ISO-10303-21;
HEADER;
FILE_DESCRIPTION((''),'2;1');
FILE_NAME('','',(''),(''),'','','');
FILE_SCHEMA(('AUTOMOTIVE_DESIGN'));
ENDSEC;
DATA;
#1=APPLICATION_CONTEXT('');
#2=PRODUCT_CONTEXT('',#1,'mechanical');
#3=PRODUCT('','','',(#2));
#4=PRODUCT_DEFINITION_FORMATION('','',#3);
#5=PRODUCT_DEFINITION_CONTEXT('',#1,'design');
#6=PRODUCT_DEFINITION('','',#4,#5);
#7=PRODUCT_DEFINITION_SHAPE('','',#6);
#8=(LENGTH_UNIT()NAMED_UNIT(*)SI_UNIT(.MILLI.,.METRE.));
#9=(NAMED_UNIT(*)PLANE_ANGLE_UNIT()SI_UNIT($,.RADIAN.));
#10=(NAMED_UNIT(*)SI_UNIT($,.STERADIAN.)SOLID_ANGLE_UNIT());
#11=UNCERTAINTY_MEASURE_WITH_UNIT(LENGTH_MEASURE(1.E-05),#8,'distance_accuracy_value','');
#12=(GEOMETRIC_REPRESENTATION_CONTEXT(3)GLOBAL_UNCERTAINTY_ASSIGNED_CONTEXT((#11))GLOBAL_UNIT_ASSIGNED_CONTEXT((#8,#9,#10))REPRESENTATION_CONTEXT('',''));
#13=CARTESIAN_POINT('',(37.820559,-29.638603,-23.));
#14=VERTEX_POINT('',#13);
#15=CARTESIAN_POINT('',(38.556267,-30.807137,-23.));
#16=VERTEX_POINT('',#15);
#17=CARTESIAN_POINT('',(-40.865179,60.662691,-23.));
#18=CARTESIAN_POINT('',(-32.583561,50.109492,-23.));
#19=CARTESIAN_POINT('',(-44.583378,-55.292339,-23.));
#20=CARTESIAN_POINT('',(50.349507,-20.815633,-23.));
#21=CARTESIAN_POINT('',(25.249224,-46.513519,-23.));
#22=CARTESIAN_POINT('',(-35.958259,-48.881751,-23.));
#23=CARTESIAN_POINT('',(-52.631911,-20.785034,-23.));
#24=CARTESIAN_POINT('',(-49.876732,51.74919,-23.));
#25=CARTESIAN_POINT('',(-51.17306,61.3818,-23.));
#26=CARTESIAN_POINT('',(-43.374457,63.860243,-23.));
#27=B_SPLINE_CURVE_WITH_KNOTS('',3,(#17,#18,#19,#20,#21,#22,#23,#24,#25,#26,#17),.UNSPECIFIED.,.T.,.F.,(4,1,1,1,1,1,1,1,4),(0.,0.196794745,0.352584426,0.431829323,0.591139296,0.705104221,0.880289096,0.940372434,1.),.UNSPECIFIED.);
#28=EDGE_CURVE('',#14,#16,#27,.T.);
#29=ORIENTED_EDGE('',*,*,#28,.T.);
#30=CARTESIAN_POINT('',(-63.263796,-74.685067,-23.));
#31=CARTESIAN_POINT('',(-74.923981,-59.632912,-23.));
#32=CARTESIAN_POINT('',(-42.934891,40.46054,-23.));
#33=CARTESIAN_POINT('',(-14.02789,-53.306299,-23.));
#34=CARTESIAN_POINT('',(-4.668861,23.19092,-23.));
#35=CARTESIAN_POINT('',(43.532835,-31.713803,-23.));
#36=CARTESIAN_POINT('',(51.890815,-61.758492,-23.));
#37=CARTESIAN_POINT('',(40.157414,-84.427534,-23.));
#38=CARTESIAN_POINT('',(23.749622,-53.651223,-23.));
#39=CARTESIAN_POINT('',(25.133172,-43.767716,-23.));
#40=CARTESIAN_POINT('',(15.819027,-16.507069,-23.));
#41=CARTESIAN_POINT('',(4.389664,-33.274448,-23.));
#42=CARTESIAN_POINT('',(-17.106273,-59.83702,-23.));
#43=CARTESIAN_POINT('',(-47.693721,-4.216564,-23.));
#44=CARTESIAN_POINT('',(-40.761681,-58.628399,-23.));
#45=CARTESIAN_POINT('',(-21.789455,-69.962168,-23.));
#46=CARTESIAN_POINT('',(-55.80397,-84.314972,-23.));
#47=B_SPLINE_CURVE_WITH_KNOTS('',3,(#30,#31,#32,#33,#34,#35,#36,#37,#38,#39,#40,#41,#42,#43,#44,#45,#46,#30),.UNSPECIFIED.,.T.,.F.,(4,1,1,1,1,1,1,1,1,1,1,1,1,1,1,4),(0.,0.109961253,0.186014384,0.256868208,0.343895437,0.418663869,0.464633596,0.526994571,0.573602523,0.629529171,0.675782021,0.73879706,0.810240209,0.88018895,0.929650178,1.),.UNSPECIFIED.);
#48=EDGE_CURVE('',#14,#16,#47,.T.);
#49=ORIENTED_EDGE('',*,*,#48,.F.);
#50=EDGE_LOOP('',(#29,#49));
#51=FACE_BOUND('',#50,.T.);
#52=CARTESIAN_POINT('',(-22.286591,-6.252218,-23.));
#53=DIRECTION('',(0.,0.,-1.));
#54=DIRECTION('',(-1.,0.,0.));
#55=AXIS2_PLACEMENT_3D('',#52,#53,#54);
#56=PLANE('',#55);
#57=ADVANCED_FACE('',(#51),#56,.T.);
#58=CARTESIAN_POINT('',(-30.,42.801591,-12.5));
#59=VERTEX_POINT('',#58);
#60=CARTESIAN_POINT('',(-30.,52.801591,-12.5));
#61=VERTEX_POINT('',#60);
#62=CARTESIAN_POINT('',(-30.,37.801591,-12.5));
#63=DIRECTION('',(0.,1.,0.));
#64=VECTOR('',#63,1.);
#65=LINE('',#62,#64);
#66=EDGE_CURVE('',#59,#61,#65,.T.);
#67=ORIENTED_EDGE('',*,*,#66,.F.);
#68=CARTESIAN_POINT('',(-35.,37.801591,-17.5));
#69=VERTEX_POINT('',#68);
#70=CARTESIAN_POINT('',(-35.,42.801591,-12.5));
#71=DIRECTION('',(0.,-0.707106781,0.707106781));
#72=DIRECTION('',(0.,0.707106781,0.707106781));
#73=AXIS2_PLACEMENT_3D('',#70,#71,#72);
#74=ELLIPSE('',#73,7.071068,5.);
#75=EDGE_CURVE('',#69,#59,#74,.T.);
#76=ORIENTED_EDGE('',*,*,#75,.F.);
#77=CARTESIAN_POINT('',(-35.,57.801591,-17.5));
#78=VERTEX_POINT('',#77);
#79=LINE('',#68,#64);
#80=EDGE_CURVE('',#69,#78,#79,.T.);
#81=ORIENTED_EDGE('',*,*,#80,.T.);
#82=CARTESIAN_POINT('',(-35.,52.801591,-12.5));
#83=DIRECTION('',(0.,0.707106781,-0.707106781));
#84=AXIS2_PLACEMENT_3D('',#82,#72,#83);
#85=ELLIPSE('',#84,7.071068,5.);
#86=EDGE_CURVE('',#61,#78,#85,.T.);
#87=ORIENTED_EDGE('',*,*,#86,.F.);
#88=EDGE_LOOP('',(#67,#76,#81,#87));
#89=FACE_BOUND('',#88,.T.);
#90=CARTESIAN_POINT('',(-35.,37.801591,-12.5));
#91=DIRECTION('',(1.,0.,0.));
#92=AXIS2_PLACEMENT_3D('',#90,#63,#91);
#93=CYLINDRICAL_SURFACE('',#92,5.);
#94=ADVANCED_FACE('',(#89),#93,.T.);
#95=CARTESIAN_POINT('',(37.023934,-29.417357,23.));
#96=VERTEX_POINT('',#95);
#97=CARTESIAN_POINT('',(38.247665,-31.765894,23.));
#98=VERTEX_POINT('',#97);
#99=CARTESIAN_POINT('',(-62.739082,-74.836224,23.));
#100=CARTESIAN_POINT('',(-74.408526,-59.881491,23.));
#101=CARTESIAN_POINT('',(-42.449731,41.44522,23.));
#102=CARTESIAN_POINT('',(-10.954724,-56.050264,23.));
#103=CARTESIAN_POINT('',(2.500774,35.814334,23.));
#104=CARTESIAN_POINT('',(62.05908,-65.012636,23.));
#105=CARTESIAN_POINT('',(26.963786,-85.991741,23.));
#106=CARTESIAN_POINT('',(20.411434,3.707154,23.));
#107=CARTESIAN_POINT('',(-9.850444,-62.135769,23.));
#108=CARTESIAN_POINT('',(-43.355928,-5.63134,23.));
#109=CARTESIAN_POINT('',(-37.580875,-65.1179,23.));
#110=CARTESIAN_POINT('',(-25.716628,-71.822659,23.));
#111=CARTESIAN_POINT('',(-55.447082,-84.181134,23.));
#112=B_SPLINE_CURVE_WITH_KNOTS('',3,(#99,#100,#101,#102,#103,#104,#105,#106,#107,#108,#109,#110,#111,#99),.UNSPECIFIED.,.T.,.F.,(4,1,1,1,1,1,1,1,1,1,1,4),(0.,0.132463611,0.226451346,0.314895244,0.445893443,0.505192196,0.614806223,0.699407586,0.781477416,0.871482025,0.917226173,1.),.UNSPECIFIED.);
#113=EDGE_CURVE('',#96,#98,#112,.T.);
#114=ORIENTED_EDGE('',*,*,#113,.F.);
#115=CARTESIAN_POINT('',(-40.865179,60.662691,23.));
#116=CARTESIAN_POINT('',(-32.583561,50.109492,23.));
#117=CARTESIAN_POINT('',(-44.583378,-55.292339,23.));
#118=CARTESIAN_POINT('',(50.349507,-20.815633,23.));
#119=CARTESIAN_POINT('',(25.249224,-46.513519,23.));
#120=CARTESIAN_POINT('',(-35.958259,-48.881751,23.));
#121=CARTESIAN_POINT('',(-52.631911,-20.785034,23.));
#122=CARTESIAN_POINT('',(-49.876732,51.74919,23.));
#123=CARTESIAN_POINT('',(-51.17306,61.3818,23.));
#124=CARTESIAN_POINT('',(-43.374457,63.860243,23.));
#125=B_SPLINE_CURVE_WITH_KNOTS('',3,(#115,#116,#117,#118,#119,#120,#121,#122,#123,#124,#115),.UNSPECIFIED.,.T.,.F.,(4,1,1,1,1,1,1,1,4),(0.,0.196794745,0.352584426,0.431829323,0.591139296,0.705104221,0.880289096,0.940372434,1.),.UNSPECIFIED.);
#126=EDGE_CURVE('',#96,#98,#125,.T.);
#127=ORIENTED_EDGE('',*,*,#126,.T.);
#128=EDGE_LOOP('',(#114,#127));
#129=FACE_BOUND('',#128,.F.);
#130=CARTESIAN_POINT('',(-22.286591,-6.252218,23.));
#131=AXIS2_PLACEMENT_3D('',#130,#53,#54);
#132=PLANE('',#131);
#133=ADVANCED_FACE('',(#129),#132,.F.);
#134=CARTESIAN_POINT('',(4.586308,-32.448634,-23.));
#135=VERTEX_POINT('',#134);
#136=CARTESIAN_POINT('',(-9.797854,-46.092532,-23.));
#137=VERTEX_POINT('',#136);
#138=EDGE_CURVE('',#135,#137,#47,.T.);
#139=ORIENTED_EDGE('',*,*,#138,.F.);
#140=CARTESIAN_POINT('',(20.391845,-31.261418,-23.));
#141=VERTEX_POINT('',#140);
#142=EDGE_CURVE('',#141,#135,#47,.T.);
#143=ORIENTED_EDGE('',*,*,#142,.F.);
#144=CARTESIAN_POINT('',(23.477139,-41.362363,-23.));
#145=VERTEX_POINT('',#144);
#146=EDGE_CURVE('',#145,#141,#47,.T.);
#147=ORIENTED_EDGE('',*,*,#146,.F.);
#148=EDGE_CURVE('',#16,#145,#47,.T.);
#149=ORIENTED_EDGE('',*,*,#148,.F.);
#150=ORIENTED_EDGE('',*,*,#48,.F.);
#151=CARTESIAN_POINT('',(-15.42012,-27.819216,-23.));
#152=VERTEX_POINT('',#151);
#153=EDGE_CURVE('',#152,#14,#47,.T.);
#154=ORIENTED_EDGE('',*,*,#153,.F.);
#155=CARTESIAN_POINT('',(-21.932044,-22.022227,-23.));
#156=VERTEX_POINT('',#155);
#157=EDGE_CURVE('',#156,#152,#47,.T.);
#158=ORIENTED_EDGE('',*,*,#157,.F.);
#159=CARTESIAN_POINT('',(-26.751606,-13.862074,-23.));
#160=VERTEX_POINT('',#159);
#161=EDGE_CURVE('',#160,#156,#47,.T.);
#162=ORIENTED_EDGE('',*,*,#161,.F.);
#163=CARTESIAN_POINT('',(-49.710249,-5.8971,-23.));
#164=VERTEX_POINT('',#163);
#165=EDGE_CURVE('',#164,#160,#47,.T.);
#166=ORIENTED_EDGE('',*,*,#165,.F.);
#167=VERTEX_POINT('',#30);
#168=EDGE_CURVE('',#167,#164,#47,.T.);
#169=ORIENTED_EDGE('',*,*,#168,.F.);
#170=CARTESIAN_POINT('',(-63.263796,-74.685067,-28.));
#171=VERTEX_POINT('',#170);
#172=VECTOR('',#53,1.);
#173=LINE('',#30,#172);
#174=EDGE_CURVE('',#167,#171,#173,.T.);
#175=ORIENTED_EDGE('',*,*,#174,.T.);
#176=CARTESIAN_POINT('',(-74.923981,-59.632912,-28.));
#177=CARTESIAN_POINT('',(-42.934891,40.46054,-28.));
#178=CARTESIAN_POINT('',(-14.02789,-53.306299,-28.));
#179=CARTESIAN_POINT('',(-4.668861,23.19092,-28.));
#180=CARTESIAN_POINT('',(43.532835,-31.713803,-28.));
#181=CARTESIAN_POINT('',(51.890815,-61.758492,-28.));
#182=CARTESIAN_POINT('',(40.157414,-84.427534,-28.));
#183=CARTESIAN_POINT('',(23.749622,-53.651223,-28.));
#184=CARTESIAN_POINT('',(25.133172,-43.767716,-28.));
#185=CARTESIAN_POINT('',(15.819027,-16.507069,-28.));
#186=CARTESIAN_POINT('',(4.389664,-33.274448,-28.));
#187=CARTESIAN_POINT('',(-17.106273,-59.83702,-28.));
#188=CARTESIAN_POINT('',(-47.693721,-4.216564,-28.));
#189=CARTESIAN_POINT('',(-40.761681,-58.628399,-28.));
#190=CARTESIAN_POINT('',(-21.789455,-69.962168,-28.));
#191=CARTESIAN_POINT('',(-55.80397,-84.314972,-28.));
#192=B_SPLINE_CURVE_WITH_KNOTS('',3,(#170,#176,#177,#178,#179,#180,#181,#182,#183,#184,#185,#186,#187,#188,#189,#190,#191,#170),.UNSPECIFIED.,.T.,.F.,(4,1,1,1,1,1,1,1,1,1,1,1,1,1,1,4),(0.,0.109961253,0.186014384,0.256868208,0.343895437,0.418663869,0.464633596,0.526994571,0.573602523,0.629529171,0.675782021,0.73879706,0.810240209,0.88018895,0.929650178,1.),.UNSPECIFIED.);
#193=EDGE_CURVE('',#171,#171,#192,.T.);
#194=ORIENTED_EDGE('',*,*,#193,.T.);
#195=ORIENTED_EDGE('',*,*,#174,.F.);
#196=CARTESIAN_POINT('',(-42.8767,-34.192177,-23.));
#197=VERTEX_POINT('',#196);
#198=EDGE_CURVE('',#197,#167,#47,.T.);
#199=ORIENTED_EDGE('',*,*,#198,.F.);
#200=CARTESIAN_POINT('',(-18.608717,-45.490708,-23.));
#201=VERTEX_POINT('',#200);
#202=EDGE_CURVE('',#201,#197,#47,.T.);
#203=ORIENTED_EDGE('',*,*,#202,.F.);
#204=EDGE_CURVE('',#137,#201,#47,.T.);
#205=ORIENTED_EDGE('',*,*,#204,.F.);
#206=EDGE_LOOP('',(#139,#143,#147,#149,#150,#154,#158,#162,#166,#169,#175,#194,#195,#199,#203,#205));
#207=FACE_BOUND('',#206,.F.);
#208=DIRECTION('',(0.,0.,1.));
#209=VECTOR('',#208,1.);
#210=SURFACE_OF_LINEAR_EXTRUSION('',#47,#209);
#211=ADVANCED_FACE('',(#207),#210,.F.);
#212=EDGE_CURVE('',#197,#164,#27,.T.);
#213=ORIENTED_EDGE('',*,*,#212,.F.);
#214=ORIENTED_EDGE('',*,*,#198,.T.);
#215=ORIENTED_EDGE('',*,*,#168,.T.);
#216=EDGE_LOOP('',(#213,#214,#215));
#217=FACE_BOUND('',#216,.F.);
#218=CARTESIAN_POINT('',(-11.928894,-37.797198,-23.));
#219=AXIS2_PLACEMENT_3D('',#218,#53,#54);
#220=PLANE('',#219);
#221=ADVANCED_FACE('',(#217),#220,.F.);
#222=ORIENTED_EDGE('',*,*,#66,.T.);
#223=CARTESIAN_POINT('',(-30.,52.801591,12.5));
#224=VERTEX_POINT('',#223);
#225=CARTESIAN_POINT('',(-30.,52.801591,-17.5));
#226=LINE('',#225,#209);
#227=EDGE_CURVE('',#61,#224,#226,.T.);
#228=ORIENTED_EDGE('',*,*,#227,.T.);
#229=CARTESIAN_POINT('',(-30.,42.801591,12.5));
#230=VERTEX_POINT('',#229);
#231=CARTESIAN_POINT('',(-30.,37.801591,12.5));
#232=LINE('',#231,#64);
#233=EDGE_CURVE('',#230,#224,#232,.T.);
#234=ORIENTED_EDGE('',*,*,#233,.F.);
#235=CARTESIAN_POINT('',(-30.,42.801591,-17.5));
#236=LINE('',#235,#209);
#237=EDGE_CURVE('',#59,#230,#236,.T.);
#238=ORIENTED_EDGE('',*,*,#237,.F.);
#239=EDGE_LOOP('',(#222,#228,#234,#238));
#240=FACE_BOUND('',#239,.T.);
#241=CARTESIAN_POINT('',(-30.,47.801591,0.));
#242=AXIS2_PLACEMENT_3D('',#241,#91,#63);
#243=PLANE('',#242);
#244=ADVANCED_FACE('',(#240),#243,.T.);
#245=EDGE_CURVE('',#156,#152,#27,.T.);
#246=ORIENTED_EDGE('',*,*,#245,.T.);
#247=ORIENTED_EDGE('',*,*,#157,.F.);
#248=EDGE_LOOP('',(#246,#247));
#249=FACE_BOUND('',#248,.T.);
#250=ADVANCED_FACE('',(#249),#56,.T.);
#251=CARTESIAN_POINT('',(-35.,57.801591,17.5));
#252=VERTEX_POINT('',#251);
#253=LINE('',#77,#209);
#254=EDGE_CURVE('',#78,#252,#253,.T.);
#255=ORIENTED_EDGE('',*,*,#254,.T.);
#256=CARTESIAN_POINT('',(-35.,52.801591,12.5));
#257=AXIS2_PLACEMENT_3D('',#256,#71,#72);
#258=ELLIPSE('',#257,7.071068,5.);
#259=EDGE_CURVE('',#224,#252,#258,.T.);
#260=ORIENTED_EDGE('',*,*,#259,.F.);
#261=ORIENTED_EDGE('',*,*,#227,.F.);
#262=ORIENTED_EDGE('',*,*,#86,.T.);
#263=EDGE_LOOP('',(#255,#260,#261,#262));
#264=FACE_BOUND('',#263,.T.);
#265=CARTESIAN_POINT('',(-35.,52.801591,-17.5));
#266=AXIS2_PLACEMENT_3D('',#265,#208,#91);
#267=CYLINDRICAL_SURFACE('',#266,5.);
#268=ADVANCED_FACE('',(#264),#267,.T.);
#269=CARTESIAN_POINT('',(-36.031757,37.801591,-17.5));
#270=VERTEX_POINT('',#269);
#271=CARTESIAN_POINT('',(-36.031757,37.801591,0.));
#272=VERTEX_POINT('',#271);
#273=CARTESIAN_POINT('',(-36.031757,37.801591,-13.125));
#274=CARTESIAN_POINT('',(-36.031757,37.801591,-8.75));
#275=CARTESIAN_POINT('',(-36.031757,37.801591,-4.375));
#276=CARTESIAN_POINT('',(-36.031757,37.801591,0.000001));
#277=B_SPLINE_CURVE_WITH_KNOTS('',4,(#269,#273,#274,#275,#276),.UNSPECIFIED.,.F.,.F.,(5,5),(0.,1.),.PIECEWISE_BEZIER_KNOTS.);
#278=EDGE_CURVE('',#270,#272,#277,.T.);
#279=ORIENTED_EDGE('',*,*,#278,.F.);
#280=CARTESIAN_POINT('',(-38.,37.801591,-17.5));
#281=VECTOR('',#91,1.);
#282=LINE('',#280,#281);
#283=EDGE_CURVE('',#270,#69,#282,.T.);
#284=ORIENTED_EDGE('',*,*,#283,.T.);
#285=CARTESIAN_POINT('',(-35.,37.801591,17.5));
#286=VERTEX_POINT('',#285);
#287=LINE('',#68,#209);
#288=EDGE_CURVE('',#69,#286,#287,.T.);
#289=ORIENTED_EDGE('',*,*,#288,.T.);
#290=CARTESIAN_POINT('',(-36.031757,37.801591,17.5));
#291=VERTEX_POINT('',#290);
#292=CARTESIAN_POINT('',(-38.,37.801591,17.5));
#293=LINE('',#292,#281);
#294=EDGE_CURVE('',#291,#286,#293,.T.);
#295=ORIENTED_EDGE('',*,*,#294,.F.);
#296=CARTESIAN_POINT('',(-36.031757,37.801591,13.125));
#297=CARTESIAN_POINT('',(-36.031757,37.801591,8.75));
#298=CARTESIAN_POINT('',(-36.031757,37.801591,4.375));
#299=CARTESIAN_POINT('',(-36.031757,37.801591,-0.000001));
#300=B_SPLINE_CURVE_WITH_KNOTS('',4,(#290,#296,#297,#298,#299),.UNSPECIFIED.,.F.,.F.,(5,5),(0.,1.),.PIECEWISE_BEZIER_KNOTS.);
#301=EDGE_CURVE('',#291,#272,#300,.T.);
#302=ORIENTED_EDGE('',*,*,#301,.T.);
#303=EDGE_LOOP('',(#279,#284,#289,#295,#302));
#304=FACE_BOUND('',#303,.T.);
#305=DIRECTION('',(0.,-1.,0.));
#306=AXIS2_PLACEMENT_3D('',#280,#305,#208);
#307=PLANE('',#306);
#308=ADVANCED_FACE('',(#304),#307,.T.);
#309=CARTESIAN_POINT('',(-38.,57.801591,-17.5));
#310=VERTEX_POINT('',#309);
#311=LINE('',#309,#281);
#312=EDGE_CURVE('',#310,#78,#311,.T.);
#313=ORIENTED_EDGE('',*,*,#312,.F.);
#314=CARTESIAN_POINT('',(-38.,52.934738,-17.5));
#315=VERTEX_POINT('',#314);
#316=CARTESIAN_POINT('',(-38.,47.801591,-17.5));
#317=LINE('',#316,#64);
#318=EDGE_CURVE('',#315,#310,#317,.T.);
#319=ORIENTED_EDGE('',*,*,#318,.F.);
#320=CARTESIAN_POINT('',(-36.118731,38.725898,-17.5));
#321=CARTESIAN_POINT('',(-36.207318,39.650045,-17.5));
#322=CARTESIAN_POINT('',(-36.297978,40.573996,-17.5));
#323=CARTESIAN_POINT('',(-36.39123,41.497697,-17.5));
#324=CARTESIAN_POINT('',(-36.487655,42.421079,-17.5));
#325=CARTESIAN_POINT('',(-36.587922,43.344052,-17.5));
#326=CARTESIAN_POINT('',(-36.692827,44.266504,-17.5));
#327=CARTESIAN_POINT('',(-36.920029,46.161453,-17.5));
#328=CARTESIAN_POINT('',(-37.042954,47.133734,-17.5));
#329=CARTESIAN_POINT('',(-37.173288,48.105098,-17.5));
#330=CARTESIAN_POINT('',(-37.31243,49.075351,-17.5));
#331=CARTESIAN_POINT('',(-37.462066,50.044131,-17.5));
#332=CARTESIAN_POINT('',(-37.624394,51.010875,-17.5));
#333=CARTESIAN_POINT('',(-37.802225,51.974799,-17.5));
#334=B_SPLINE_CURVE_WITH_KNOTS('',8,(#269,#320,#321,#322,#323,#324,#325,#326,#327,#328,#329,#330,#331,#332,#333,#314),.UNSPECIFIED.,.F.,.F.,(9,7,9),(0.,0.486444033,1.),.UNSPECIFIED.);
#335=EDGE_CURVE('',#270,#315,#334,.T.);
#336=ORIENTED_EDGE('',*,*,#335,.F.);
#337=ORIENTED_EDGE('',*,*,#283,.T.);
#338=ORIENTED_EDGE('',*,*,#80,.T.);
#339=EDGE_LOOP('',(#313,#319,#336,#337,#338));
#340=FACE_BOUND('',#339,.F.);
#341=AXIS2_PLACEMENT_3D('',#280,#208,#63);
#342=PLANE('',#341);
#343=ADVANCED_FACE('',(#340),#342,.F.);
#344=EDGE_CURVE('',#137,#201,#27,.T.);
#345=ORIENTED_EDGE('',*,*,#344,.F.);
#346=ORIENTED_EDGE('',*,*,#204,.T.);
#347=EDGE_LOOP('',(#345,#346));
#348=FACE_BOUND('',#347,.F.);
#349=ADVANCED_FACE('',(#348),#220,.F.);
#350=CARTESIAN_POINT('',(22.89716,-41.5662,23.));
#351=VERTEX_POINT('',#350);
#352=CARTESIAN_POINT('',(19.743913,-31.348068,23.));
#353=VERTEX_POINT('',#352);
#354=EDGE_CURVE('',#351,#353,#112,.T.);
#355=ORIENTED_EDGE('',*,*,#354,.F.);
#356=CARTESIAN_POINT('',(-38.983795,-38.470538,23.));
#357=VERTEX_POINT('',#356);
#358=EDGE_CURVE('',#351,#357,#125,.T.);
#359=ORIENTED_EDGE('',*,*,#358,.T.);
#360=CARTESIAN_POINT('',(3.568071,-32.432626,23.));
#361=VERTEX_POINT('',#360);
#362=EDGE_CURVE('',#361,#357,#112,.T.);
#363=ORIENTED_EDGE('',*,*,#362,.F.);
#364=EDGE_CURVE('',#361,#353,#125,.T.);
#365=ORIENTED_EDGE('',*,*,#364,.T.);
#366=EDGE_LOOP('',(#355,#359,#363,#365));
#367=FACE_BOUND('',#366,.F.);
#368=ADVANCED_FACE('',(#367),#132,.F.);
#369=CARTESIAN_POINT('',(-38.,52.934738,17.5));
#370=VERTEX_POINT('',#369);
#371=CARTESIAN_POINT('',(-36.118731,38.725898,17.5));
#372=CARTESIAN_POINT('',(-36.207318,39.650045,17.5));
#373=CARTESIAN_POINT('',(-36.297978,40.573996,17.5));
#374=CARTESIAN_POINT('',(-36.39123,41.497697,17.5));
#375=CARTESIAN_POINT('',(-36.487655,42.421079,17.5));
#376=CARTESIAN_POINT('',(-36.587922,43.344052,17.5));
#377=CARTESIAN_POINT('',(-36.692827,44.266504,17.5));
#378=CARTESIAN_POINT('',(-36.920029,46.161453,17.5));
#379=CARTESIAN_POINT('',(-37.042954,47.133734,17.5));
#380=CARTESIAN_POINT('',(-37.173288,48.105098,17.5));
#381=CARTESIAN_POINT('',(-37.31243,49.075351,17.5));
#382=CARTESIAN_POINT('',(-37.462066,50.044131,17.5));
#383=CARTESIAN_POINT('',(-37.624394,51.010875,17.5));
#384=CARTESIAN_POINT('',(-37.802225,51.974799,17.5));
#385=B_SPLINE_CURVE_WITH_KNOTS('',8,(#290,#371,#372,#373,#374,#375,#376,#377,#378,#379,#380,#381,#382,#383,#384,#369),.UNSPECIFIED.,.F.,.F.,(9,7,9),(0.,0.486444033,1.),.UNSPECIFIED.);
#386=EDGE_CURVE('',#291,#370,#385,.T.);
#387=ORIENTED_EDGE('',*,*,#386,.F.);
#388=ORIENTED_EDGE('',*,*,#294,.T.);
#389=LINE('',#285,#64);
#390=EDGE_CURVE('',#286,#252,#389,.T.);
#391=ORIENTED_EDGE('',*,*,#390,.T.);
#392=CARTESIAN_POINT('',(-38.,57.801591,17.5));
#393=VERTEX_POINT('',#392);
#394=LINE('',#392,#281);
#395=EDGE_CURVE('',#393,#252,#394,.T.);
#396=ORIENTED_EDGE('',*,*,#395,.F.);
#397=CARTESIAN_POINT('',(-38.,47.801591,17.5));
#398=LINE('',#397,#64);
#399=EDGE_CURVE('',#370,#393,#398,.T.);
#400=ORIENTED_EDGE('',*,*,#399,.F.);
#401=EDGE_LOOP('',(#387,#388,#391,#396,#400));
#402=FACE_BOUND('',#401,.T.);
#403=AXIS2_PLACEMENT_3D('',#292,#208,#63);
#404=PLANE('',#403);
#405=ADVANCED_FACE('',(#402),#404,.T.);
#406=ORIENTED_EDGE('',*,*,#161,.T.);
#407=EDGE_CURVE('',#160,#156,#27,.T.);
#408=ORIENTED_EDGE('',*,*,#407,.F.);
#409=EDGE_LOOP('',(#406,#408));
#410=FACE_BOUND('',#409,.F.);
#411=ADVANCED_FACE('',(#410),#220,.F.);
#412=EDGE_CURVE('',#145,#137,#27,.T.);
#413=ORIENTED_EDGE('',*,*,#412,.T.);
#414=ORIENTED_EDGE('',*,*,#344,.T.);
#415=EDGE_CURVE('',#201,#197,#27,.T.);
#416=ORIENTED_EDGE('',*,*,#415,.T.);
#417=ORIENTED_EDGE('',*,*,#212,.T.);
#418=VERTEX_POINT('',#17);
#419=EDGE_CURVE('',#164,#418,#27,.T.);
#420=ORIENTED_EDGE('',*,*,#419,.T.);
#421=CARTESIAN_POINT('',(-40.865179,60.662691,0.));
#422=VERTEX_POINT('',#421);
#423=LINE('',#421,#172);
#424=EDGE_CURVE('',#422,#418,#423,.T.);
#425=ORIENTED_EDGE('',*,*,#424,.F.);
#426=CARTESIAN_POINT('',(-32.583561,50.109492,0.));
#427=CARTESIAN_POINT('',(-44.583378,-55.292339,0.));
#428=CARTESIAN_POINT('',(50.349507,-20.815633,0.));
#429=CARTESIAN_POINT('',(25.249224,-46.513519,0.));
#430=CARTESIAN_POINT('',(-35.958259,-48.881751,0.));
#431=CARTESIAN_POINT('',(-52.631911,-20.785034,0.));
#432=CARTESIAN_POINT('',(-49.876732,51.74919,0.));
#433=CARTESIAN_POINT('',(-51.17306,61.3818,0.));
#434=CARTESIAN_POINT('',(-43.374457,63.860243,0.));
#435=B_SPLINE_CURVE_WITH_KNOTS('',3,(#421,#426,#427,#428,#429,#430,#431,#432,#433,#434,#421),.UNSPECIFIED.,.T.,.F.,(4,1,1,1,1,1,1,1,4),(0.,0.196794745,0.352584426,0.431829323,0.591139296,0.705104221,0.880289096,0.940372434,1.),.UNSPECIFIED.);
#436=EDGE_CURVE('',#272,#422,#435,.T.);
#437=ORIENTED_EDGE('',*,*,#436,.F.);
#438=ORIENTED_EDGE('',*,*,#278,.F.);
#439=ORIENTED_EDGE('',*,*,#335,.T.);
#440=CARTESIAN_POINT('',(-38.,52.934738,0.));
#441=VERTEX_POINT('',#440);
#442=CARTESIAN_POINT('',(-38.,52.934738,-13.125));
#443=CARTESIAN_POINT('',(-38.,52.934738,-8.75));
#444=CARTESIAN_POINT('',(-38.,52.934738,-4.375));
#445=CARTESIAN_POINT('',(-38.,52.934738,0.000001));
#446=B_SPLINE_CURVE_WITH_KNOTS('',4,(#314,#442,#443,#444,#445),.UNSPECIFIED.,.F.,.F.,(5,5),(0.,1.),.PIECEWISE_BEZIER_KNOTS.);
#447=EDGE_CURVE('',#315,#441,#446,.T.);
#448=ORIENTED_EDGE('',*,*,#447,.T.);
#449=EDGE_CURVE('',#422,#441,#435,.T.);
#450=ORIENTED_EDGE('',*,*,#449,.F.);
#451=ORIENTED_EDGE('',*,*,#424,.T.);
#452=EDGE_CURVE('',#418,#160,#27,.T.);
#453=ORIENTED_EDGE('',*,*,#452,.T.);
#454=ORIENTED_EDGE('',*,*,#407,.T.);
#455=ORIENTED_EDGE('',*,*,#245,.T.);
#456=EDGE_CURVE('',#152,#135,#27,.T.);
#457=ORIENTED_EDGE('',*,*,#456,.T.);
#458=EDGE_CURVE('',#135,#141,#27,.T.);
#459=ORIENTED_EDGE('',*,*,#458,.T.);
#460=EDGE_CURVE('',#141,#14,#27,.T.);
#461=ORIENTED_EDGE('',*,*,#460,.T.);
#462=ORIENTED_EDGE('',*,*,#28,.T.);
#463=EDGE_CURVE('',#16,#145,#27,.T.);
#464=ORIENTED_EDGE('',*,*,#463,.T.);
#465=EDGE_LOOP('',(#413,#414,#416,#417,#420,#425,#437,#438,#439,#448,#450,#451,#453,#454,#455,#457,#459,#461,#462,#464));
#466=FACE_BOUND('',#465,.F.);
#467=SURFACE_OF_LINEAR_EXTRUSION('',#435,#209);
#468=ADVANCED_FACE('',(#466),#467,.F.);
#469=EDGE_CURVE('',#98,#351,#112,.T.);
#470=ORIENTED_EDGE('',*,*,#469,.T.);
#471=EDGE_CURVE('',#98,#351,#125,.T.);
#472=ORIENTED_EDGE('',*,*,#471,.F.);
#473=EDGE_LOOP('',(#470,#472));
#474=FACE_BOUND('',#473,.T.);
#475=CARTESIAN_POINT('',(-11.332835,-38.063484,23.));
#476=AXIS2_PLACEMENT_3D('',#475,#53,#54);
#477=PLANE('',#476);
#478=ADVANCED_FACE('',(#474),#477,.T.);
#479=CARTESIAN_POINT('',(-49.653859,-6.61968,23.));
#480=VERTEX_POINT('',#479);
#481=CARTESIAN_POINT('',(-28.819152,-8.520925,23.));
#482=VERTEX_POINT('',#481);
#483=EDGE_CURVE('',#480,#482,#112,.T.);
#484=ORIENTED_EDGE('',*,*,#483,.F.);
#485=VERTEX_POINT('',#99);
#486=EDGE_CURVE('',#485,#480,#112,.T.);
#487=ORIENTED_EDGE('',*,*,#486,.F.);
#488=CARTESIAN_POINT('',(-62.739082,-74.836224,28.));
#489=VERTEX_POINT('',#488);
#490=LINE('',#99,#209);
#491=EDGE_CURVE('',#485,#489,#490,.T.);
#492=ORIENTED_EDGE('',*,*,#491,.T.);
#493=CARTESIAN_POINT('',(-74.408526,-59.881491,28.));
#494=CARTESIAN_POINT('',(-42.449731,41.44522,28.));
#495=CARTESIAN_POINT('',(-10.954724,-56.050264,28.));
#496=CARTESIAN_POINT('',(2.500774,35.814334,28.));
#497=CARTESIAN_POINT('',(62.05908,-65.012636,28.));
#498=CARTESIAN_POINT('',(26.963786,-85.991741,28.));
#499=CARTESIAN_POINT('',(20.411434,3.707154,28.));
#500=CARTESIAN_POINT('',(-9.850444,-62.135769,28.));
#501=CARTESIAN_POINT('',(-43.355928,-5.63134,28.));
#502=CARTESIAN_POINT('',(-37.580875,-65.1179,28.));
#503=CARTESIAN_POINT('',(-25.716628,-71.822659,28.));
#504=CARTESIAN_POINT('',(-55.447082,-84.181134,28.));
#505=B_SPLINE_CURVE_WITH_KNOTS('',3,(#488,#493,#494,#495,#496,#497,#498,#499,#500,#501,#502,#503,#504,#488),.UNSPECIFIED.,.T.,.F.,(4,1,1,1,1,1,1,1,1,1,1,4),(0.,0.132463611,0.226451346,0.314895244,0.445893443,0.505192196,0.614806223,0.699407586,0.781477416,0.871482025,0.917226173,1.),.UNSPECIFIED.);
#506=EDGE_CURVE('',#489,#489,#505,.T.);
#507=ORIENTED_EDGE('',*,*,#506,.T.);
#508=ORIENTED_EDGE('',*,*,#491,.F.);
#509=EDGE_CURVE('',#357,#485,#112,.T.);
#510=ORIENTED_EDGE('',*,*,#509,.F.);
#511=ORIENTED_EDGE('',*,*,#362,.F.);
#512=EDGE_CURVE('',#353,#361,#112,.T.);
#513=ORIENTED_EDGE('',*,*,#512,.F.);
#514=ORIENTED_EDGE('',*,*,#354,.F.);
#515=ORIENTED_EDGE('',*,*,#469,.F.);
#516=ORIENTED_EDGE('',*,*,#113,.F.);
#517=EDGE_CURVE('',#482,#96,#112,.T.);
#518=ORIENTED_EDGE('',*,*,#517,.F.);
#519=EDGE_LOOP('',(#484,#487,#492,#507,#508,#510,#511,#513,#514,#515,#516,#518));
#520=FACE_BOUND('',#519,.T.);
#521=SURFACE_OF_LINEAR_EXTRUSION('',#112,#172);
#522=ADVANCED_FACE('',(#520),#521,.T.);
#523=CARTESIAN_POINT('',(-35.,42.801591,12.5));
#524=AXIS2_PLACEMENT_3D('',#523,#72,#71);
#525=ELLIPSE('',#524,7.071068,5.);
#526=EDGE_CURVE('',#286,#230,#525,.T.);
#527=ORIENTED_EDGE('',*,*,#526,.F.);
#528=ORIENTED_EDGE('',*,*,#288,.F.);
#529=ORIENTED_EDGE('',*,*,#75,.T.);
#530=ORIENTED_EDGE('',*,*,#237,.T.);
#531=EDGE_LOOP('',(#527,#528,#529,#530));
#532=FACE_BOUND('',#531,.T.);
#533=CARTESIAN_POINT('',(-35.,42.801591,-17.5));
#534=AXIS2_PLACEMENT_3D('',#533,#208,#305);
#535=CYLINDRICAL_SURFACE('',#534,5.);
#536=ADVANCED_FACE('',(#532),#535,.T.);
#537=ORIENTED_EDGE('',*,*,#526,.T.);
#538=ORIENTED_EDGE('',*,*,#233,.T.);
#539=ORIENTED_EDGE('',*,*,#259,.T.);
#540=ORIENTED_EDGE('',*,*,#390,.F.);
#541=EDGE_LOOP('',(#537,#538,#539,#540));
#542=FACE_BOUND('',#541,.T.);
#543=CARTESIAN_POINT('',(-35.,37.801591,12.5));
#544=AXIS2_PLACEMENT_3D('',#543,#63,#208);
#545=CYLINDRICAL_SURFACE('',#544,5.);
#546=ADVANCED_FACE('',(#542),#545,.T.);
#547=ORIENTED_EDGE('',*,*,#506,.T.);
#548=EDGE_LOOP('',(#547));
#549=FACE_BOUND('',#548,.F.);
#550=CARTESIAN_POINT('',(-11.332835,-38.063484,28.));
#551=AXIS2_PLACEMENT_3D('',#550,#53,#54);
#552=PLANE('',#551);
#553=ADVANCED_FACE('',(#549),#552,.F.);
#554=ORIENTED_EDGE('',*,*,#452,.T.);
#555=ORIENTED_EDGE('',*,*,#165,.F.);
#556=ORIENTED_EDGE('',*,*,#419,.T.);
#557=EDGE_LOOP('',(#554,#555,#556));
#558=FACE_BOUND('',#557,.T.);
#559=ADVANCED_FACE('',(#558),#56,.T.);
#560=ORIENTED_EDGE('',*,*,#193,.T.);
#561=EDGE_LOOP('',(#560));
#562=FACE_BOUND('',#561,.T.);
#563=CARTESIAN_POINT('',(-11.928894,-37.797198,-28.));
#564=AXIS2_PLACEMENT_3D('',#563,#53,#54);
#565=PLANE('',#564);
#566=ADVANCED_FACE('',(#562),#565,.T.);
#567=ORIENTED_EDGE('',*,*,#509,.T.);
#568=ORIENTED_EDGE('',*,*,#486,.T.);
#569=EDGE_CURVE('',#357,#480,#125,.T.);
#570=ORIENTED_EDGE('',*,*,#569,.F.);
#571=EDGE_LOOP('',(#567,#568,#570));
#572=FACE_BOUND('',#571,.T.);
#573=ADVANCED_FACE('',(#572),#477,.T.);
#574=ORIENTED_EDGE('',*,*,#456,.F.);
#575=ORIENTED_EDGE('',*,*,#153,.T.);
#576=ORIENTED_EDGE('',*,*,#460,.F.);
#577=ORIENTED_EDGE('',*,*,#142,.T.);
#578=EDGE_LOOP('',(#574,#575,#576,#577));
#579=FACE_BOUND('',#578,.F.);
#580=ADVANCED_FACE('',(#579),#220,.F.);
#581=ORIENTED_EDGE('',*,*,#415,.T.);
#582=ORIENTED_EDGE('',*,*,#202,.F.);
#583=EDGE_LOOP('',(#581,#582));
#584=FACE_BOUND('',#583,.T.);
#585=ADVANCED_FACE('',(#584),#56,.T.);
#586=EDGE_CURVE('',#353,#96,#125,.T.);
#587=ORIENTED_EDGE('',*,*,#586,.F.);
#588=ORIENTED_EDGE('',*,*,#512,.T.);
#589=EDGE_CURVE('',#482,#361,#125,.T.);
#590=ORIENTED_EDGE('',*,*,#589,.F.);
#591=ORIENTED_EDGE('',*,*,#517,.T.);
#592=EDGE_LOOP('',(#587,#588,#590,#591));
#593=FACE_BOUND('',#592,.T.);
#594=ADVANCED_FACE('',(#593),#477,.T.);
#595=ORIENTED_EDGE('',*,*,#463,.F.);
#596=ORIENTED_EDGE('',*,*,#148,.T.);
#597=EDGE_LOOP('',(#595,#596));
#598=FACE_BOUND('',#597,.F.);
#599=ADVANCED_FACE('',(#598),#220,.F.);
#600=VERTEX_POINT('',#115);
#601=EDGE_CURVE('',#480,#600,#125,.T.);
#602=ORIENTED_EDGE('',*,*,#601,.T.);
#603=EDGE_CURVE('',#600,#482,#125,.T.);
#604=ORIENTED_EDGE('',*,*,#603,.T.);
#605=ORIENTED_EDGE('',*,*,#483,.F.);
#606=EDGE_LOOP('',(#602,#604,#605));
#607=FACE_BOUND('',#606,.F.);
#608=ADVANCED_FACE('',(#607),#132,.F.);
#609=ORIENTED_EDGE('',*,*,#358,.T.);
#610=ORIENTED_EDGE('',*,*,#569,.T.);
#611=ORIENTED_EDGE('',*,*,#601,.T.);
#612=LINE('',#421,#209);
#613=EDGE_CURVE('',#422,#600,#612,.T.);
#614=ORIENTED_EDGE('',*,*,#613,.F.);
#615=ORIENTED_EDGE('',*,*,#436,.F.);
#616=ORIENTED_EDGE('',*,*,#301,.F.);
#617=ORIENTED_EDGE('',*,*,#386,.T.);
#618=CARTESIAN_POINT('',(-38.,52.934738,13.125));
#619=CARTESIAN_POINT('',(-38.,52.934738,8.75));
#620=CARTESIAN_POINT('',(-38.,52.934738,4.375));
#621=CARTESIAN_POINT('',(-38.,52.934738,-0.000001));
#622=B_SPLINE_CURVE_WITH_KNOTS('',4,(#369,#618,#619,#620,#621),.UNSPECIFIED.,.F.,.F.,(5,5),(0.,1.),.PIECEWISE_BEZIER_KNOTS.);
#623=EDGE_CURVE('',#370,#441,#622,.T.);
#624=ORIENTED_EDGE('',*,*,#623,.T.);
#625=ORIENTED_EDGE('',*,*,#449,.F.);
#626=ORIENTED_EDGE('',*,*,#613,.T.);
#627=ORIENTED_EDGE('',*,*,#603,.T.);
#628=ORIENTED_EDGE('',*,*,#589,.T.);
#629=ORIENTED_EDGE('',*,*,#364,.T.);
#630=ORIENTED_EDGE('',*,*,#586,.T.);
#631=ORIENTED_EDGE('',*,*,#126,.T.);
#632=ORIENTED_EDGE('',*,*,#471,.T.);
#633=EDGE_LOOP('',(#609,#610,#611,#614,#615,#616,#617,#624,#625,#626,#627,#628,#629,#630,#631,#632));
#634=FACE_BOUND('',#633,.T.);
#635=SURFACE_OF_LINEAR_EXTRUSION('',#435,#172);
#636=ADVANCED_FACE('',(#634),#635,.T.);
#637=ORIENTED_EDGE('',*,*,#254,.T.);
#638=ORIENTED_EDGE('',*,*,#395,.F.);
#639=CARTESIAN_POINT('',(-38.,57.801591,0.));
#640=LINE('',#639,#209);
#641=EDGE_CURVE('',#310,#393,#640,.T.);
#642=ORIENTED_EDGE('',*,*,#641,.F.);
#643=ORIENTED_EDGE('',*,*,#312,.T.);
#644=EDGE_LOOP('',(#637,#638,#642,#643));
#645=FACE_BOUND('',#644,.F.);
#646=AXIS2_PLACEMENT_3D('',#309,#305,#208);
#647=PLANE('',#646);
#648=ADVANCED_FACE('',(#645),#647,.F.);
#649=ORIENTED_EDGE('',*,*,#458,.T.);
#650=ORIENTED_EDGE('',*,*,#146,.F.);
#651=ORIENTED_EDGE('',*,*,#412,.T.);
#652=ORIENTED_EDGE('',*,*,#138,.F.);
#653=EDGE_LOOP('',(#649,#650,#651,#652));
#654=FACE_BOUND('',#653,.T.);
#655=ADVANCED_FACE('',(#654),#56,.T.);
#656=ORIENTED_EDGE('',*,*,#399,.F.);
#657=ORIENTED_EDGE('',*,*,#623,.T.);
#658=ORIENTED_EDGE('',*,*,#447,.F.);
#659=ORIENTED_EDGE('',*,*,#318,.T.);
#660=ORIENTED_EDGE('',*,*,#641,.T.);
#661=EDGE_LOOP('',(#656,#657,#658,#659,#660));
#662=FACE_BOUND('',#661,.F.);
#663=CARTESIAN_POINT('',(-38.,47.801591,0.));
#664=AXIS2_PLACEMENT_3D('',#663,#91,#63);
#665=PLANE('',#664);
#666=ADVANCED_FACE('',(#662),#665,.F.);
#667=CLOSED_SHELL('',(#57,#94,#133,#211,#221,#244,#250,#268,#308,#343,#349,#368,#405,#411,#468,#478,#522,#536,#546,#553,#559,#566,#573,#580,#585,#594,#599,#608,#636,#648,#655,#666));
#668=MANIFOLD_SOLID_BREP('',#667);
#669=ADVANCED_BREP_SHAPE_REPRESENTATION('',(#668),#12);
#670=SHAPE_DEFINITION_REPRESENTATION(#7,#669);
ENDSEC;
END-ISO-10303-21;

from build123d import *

# Parameters (mm, degrees)
F1_DEPTH  = 23
F5_DEPTH  = 5
F7_DEPTH  = 5
F9_W      = 20
F9_H      = 35
F10_DEPTH = 8
F11_R     = 5


with BuildPart() as f1:
    # F0 (on Top) → F1 (new body, symmetric)
    with BuildSketch(Plane.XY):
        with BuildLine():
            add(Edge.make_bspline(
                [(-40.8651791513, 60.6626905501), (-32.5835613176, 50.1094918948), (-44.5833784843, -55.292338674), (50.3495072664, -20.8156328999), (25.2492235834, -46.5135191648), (-35.9582594988, -48.8817508549), (-52.6319110584, -20.7850339433), (-49.8767319037, 51.7491902642), (-51.1730602798, 61.3817997811), (-43.3744571029, 63.8602431583), (-40.8651791513, 60.6626905501)],
                knots=[0, 0, 0, 0, 0.1967947448, 0.3525844264, 0.4318293235, 0.5911392964, 0.7051042206, 0.8802890962, 0.940372434, 1, 1, 1, 1], degree=3))
        make_face()
    extrude(amount=F1_DEPTH, both=True)

    # F4 (on offset) → F5 (join)
    with BuildSketch(Plane.XY.offset(23)):
        with BuildLine():
            add(Edge.make_bspline(
                [(-62.7390816808, -74.8362243176), (-74.408526062, -59.8814914584), (-42.4497309913, 41.4452203806), (-10.9547242678, -56.0502641601), (2.5007741554, 35.8143335592), (62.0590799724, -65.0126364568), (26.9637856138, -85.9917411292), (20.4114338565, 3.7071538793), (-9.8504440593, -62.1357687333), (-43.3559281764, -5.6313399433), (-37.5808752547, -65.1178997422), (-25.7166278271, -71.8226592165), (-55.4470823007, -84.1811339101), (-62.7390816808, -74.8362243176)],
                knots=[0, 0, 0, 0, 0.132463611, 0.2264513464, 0.3148952444, 0.4458934426, 0.5051921959, 0.6148062227, 0.6994075858, 0.7814774156, 0.8714820245, 0.9172261731, 1, 1, 1, 1], degree=3))
        make_face()
    extrude(amount=F5_DEPTH)

    # F6 (on offset) → F7 (join)
    with BuildSketch(Plane.XY.offset(-23)):
        with BuildLine():
            add(Edge.make_bspline(
                [(-63.2637962699, -74.6850669384), (-74.9239806173, -59.6329124251), (-42.9348909143, 40.4605396157), (-14.0278901935, -53.3062994007), (-4.6688614201, 23.1909203173), (43.5328349047, -31.7138025392), (51.8908145501, -61.7584916322), (40.1574144197, -84.4275343173), (23.7496221975, -53.6512232774), (25.1331718775, -43.7677159151), (15.8190271329, -16.5070685488), (4.3896640366, -33.2744482819), (-17.1062726927, -59.8370204778), (-47.6937209402, -4.2165644767), (-40.7616814515, -58.628399131), (-21.7894552209, -69.9621677607), (-55.8039695423, -84.314971681), (-63.2637962699, -74.6850669384)],
                knots=[0, 0, 0, 0, 0.1099612533, 0.1860143836, 0.2568682083, 0.3438954366, 0.4186638687, 0.4646335962, 0.526994571, 0.5736025232, 0.6295291705, 0.6757820205, 0.7387970603, 0.810240209, 0.8801889503, 0.9296501777, 1, 1, 1, 1], degree=3))
        make_face()
    extrude(amount=-F7_DEPTH)

    # F9 (on offset) → F10 (join)
    with BuildSketch(Plane.YZ.offset(-38)):
        with Locations((47.8015914559, 0)):
            Rectangle(F9_W, F9_H)
    extrude(amount=F10_DEPTH)

    # F11
    f11_edges = [f1.edges().sort_by_distance(p)[0] for p in [
        (-30, 37.801591, 0),
        (-30, 47.801591, -17.5),
        (-30, 57.801591, 0),
        (-30, 47.801591, 17.5),
    ]]
    fillet(f11_edges, radius=F11_R)


solid = f1.part
